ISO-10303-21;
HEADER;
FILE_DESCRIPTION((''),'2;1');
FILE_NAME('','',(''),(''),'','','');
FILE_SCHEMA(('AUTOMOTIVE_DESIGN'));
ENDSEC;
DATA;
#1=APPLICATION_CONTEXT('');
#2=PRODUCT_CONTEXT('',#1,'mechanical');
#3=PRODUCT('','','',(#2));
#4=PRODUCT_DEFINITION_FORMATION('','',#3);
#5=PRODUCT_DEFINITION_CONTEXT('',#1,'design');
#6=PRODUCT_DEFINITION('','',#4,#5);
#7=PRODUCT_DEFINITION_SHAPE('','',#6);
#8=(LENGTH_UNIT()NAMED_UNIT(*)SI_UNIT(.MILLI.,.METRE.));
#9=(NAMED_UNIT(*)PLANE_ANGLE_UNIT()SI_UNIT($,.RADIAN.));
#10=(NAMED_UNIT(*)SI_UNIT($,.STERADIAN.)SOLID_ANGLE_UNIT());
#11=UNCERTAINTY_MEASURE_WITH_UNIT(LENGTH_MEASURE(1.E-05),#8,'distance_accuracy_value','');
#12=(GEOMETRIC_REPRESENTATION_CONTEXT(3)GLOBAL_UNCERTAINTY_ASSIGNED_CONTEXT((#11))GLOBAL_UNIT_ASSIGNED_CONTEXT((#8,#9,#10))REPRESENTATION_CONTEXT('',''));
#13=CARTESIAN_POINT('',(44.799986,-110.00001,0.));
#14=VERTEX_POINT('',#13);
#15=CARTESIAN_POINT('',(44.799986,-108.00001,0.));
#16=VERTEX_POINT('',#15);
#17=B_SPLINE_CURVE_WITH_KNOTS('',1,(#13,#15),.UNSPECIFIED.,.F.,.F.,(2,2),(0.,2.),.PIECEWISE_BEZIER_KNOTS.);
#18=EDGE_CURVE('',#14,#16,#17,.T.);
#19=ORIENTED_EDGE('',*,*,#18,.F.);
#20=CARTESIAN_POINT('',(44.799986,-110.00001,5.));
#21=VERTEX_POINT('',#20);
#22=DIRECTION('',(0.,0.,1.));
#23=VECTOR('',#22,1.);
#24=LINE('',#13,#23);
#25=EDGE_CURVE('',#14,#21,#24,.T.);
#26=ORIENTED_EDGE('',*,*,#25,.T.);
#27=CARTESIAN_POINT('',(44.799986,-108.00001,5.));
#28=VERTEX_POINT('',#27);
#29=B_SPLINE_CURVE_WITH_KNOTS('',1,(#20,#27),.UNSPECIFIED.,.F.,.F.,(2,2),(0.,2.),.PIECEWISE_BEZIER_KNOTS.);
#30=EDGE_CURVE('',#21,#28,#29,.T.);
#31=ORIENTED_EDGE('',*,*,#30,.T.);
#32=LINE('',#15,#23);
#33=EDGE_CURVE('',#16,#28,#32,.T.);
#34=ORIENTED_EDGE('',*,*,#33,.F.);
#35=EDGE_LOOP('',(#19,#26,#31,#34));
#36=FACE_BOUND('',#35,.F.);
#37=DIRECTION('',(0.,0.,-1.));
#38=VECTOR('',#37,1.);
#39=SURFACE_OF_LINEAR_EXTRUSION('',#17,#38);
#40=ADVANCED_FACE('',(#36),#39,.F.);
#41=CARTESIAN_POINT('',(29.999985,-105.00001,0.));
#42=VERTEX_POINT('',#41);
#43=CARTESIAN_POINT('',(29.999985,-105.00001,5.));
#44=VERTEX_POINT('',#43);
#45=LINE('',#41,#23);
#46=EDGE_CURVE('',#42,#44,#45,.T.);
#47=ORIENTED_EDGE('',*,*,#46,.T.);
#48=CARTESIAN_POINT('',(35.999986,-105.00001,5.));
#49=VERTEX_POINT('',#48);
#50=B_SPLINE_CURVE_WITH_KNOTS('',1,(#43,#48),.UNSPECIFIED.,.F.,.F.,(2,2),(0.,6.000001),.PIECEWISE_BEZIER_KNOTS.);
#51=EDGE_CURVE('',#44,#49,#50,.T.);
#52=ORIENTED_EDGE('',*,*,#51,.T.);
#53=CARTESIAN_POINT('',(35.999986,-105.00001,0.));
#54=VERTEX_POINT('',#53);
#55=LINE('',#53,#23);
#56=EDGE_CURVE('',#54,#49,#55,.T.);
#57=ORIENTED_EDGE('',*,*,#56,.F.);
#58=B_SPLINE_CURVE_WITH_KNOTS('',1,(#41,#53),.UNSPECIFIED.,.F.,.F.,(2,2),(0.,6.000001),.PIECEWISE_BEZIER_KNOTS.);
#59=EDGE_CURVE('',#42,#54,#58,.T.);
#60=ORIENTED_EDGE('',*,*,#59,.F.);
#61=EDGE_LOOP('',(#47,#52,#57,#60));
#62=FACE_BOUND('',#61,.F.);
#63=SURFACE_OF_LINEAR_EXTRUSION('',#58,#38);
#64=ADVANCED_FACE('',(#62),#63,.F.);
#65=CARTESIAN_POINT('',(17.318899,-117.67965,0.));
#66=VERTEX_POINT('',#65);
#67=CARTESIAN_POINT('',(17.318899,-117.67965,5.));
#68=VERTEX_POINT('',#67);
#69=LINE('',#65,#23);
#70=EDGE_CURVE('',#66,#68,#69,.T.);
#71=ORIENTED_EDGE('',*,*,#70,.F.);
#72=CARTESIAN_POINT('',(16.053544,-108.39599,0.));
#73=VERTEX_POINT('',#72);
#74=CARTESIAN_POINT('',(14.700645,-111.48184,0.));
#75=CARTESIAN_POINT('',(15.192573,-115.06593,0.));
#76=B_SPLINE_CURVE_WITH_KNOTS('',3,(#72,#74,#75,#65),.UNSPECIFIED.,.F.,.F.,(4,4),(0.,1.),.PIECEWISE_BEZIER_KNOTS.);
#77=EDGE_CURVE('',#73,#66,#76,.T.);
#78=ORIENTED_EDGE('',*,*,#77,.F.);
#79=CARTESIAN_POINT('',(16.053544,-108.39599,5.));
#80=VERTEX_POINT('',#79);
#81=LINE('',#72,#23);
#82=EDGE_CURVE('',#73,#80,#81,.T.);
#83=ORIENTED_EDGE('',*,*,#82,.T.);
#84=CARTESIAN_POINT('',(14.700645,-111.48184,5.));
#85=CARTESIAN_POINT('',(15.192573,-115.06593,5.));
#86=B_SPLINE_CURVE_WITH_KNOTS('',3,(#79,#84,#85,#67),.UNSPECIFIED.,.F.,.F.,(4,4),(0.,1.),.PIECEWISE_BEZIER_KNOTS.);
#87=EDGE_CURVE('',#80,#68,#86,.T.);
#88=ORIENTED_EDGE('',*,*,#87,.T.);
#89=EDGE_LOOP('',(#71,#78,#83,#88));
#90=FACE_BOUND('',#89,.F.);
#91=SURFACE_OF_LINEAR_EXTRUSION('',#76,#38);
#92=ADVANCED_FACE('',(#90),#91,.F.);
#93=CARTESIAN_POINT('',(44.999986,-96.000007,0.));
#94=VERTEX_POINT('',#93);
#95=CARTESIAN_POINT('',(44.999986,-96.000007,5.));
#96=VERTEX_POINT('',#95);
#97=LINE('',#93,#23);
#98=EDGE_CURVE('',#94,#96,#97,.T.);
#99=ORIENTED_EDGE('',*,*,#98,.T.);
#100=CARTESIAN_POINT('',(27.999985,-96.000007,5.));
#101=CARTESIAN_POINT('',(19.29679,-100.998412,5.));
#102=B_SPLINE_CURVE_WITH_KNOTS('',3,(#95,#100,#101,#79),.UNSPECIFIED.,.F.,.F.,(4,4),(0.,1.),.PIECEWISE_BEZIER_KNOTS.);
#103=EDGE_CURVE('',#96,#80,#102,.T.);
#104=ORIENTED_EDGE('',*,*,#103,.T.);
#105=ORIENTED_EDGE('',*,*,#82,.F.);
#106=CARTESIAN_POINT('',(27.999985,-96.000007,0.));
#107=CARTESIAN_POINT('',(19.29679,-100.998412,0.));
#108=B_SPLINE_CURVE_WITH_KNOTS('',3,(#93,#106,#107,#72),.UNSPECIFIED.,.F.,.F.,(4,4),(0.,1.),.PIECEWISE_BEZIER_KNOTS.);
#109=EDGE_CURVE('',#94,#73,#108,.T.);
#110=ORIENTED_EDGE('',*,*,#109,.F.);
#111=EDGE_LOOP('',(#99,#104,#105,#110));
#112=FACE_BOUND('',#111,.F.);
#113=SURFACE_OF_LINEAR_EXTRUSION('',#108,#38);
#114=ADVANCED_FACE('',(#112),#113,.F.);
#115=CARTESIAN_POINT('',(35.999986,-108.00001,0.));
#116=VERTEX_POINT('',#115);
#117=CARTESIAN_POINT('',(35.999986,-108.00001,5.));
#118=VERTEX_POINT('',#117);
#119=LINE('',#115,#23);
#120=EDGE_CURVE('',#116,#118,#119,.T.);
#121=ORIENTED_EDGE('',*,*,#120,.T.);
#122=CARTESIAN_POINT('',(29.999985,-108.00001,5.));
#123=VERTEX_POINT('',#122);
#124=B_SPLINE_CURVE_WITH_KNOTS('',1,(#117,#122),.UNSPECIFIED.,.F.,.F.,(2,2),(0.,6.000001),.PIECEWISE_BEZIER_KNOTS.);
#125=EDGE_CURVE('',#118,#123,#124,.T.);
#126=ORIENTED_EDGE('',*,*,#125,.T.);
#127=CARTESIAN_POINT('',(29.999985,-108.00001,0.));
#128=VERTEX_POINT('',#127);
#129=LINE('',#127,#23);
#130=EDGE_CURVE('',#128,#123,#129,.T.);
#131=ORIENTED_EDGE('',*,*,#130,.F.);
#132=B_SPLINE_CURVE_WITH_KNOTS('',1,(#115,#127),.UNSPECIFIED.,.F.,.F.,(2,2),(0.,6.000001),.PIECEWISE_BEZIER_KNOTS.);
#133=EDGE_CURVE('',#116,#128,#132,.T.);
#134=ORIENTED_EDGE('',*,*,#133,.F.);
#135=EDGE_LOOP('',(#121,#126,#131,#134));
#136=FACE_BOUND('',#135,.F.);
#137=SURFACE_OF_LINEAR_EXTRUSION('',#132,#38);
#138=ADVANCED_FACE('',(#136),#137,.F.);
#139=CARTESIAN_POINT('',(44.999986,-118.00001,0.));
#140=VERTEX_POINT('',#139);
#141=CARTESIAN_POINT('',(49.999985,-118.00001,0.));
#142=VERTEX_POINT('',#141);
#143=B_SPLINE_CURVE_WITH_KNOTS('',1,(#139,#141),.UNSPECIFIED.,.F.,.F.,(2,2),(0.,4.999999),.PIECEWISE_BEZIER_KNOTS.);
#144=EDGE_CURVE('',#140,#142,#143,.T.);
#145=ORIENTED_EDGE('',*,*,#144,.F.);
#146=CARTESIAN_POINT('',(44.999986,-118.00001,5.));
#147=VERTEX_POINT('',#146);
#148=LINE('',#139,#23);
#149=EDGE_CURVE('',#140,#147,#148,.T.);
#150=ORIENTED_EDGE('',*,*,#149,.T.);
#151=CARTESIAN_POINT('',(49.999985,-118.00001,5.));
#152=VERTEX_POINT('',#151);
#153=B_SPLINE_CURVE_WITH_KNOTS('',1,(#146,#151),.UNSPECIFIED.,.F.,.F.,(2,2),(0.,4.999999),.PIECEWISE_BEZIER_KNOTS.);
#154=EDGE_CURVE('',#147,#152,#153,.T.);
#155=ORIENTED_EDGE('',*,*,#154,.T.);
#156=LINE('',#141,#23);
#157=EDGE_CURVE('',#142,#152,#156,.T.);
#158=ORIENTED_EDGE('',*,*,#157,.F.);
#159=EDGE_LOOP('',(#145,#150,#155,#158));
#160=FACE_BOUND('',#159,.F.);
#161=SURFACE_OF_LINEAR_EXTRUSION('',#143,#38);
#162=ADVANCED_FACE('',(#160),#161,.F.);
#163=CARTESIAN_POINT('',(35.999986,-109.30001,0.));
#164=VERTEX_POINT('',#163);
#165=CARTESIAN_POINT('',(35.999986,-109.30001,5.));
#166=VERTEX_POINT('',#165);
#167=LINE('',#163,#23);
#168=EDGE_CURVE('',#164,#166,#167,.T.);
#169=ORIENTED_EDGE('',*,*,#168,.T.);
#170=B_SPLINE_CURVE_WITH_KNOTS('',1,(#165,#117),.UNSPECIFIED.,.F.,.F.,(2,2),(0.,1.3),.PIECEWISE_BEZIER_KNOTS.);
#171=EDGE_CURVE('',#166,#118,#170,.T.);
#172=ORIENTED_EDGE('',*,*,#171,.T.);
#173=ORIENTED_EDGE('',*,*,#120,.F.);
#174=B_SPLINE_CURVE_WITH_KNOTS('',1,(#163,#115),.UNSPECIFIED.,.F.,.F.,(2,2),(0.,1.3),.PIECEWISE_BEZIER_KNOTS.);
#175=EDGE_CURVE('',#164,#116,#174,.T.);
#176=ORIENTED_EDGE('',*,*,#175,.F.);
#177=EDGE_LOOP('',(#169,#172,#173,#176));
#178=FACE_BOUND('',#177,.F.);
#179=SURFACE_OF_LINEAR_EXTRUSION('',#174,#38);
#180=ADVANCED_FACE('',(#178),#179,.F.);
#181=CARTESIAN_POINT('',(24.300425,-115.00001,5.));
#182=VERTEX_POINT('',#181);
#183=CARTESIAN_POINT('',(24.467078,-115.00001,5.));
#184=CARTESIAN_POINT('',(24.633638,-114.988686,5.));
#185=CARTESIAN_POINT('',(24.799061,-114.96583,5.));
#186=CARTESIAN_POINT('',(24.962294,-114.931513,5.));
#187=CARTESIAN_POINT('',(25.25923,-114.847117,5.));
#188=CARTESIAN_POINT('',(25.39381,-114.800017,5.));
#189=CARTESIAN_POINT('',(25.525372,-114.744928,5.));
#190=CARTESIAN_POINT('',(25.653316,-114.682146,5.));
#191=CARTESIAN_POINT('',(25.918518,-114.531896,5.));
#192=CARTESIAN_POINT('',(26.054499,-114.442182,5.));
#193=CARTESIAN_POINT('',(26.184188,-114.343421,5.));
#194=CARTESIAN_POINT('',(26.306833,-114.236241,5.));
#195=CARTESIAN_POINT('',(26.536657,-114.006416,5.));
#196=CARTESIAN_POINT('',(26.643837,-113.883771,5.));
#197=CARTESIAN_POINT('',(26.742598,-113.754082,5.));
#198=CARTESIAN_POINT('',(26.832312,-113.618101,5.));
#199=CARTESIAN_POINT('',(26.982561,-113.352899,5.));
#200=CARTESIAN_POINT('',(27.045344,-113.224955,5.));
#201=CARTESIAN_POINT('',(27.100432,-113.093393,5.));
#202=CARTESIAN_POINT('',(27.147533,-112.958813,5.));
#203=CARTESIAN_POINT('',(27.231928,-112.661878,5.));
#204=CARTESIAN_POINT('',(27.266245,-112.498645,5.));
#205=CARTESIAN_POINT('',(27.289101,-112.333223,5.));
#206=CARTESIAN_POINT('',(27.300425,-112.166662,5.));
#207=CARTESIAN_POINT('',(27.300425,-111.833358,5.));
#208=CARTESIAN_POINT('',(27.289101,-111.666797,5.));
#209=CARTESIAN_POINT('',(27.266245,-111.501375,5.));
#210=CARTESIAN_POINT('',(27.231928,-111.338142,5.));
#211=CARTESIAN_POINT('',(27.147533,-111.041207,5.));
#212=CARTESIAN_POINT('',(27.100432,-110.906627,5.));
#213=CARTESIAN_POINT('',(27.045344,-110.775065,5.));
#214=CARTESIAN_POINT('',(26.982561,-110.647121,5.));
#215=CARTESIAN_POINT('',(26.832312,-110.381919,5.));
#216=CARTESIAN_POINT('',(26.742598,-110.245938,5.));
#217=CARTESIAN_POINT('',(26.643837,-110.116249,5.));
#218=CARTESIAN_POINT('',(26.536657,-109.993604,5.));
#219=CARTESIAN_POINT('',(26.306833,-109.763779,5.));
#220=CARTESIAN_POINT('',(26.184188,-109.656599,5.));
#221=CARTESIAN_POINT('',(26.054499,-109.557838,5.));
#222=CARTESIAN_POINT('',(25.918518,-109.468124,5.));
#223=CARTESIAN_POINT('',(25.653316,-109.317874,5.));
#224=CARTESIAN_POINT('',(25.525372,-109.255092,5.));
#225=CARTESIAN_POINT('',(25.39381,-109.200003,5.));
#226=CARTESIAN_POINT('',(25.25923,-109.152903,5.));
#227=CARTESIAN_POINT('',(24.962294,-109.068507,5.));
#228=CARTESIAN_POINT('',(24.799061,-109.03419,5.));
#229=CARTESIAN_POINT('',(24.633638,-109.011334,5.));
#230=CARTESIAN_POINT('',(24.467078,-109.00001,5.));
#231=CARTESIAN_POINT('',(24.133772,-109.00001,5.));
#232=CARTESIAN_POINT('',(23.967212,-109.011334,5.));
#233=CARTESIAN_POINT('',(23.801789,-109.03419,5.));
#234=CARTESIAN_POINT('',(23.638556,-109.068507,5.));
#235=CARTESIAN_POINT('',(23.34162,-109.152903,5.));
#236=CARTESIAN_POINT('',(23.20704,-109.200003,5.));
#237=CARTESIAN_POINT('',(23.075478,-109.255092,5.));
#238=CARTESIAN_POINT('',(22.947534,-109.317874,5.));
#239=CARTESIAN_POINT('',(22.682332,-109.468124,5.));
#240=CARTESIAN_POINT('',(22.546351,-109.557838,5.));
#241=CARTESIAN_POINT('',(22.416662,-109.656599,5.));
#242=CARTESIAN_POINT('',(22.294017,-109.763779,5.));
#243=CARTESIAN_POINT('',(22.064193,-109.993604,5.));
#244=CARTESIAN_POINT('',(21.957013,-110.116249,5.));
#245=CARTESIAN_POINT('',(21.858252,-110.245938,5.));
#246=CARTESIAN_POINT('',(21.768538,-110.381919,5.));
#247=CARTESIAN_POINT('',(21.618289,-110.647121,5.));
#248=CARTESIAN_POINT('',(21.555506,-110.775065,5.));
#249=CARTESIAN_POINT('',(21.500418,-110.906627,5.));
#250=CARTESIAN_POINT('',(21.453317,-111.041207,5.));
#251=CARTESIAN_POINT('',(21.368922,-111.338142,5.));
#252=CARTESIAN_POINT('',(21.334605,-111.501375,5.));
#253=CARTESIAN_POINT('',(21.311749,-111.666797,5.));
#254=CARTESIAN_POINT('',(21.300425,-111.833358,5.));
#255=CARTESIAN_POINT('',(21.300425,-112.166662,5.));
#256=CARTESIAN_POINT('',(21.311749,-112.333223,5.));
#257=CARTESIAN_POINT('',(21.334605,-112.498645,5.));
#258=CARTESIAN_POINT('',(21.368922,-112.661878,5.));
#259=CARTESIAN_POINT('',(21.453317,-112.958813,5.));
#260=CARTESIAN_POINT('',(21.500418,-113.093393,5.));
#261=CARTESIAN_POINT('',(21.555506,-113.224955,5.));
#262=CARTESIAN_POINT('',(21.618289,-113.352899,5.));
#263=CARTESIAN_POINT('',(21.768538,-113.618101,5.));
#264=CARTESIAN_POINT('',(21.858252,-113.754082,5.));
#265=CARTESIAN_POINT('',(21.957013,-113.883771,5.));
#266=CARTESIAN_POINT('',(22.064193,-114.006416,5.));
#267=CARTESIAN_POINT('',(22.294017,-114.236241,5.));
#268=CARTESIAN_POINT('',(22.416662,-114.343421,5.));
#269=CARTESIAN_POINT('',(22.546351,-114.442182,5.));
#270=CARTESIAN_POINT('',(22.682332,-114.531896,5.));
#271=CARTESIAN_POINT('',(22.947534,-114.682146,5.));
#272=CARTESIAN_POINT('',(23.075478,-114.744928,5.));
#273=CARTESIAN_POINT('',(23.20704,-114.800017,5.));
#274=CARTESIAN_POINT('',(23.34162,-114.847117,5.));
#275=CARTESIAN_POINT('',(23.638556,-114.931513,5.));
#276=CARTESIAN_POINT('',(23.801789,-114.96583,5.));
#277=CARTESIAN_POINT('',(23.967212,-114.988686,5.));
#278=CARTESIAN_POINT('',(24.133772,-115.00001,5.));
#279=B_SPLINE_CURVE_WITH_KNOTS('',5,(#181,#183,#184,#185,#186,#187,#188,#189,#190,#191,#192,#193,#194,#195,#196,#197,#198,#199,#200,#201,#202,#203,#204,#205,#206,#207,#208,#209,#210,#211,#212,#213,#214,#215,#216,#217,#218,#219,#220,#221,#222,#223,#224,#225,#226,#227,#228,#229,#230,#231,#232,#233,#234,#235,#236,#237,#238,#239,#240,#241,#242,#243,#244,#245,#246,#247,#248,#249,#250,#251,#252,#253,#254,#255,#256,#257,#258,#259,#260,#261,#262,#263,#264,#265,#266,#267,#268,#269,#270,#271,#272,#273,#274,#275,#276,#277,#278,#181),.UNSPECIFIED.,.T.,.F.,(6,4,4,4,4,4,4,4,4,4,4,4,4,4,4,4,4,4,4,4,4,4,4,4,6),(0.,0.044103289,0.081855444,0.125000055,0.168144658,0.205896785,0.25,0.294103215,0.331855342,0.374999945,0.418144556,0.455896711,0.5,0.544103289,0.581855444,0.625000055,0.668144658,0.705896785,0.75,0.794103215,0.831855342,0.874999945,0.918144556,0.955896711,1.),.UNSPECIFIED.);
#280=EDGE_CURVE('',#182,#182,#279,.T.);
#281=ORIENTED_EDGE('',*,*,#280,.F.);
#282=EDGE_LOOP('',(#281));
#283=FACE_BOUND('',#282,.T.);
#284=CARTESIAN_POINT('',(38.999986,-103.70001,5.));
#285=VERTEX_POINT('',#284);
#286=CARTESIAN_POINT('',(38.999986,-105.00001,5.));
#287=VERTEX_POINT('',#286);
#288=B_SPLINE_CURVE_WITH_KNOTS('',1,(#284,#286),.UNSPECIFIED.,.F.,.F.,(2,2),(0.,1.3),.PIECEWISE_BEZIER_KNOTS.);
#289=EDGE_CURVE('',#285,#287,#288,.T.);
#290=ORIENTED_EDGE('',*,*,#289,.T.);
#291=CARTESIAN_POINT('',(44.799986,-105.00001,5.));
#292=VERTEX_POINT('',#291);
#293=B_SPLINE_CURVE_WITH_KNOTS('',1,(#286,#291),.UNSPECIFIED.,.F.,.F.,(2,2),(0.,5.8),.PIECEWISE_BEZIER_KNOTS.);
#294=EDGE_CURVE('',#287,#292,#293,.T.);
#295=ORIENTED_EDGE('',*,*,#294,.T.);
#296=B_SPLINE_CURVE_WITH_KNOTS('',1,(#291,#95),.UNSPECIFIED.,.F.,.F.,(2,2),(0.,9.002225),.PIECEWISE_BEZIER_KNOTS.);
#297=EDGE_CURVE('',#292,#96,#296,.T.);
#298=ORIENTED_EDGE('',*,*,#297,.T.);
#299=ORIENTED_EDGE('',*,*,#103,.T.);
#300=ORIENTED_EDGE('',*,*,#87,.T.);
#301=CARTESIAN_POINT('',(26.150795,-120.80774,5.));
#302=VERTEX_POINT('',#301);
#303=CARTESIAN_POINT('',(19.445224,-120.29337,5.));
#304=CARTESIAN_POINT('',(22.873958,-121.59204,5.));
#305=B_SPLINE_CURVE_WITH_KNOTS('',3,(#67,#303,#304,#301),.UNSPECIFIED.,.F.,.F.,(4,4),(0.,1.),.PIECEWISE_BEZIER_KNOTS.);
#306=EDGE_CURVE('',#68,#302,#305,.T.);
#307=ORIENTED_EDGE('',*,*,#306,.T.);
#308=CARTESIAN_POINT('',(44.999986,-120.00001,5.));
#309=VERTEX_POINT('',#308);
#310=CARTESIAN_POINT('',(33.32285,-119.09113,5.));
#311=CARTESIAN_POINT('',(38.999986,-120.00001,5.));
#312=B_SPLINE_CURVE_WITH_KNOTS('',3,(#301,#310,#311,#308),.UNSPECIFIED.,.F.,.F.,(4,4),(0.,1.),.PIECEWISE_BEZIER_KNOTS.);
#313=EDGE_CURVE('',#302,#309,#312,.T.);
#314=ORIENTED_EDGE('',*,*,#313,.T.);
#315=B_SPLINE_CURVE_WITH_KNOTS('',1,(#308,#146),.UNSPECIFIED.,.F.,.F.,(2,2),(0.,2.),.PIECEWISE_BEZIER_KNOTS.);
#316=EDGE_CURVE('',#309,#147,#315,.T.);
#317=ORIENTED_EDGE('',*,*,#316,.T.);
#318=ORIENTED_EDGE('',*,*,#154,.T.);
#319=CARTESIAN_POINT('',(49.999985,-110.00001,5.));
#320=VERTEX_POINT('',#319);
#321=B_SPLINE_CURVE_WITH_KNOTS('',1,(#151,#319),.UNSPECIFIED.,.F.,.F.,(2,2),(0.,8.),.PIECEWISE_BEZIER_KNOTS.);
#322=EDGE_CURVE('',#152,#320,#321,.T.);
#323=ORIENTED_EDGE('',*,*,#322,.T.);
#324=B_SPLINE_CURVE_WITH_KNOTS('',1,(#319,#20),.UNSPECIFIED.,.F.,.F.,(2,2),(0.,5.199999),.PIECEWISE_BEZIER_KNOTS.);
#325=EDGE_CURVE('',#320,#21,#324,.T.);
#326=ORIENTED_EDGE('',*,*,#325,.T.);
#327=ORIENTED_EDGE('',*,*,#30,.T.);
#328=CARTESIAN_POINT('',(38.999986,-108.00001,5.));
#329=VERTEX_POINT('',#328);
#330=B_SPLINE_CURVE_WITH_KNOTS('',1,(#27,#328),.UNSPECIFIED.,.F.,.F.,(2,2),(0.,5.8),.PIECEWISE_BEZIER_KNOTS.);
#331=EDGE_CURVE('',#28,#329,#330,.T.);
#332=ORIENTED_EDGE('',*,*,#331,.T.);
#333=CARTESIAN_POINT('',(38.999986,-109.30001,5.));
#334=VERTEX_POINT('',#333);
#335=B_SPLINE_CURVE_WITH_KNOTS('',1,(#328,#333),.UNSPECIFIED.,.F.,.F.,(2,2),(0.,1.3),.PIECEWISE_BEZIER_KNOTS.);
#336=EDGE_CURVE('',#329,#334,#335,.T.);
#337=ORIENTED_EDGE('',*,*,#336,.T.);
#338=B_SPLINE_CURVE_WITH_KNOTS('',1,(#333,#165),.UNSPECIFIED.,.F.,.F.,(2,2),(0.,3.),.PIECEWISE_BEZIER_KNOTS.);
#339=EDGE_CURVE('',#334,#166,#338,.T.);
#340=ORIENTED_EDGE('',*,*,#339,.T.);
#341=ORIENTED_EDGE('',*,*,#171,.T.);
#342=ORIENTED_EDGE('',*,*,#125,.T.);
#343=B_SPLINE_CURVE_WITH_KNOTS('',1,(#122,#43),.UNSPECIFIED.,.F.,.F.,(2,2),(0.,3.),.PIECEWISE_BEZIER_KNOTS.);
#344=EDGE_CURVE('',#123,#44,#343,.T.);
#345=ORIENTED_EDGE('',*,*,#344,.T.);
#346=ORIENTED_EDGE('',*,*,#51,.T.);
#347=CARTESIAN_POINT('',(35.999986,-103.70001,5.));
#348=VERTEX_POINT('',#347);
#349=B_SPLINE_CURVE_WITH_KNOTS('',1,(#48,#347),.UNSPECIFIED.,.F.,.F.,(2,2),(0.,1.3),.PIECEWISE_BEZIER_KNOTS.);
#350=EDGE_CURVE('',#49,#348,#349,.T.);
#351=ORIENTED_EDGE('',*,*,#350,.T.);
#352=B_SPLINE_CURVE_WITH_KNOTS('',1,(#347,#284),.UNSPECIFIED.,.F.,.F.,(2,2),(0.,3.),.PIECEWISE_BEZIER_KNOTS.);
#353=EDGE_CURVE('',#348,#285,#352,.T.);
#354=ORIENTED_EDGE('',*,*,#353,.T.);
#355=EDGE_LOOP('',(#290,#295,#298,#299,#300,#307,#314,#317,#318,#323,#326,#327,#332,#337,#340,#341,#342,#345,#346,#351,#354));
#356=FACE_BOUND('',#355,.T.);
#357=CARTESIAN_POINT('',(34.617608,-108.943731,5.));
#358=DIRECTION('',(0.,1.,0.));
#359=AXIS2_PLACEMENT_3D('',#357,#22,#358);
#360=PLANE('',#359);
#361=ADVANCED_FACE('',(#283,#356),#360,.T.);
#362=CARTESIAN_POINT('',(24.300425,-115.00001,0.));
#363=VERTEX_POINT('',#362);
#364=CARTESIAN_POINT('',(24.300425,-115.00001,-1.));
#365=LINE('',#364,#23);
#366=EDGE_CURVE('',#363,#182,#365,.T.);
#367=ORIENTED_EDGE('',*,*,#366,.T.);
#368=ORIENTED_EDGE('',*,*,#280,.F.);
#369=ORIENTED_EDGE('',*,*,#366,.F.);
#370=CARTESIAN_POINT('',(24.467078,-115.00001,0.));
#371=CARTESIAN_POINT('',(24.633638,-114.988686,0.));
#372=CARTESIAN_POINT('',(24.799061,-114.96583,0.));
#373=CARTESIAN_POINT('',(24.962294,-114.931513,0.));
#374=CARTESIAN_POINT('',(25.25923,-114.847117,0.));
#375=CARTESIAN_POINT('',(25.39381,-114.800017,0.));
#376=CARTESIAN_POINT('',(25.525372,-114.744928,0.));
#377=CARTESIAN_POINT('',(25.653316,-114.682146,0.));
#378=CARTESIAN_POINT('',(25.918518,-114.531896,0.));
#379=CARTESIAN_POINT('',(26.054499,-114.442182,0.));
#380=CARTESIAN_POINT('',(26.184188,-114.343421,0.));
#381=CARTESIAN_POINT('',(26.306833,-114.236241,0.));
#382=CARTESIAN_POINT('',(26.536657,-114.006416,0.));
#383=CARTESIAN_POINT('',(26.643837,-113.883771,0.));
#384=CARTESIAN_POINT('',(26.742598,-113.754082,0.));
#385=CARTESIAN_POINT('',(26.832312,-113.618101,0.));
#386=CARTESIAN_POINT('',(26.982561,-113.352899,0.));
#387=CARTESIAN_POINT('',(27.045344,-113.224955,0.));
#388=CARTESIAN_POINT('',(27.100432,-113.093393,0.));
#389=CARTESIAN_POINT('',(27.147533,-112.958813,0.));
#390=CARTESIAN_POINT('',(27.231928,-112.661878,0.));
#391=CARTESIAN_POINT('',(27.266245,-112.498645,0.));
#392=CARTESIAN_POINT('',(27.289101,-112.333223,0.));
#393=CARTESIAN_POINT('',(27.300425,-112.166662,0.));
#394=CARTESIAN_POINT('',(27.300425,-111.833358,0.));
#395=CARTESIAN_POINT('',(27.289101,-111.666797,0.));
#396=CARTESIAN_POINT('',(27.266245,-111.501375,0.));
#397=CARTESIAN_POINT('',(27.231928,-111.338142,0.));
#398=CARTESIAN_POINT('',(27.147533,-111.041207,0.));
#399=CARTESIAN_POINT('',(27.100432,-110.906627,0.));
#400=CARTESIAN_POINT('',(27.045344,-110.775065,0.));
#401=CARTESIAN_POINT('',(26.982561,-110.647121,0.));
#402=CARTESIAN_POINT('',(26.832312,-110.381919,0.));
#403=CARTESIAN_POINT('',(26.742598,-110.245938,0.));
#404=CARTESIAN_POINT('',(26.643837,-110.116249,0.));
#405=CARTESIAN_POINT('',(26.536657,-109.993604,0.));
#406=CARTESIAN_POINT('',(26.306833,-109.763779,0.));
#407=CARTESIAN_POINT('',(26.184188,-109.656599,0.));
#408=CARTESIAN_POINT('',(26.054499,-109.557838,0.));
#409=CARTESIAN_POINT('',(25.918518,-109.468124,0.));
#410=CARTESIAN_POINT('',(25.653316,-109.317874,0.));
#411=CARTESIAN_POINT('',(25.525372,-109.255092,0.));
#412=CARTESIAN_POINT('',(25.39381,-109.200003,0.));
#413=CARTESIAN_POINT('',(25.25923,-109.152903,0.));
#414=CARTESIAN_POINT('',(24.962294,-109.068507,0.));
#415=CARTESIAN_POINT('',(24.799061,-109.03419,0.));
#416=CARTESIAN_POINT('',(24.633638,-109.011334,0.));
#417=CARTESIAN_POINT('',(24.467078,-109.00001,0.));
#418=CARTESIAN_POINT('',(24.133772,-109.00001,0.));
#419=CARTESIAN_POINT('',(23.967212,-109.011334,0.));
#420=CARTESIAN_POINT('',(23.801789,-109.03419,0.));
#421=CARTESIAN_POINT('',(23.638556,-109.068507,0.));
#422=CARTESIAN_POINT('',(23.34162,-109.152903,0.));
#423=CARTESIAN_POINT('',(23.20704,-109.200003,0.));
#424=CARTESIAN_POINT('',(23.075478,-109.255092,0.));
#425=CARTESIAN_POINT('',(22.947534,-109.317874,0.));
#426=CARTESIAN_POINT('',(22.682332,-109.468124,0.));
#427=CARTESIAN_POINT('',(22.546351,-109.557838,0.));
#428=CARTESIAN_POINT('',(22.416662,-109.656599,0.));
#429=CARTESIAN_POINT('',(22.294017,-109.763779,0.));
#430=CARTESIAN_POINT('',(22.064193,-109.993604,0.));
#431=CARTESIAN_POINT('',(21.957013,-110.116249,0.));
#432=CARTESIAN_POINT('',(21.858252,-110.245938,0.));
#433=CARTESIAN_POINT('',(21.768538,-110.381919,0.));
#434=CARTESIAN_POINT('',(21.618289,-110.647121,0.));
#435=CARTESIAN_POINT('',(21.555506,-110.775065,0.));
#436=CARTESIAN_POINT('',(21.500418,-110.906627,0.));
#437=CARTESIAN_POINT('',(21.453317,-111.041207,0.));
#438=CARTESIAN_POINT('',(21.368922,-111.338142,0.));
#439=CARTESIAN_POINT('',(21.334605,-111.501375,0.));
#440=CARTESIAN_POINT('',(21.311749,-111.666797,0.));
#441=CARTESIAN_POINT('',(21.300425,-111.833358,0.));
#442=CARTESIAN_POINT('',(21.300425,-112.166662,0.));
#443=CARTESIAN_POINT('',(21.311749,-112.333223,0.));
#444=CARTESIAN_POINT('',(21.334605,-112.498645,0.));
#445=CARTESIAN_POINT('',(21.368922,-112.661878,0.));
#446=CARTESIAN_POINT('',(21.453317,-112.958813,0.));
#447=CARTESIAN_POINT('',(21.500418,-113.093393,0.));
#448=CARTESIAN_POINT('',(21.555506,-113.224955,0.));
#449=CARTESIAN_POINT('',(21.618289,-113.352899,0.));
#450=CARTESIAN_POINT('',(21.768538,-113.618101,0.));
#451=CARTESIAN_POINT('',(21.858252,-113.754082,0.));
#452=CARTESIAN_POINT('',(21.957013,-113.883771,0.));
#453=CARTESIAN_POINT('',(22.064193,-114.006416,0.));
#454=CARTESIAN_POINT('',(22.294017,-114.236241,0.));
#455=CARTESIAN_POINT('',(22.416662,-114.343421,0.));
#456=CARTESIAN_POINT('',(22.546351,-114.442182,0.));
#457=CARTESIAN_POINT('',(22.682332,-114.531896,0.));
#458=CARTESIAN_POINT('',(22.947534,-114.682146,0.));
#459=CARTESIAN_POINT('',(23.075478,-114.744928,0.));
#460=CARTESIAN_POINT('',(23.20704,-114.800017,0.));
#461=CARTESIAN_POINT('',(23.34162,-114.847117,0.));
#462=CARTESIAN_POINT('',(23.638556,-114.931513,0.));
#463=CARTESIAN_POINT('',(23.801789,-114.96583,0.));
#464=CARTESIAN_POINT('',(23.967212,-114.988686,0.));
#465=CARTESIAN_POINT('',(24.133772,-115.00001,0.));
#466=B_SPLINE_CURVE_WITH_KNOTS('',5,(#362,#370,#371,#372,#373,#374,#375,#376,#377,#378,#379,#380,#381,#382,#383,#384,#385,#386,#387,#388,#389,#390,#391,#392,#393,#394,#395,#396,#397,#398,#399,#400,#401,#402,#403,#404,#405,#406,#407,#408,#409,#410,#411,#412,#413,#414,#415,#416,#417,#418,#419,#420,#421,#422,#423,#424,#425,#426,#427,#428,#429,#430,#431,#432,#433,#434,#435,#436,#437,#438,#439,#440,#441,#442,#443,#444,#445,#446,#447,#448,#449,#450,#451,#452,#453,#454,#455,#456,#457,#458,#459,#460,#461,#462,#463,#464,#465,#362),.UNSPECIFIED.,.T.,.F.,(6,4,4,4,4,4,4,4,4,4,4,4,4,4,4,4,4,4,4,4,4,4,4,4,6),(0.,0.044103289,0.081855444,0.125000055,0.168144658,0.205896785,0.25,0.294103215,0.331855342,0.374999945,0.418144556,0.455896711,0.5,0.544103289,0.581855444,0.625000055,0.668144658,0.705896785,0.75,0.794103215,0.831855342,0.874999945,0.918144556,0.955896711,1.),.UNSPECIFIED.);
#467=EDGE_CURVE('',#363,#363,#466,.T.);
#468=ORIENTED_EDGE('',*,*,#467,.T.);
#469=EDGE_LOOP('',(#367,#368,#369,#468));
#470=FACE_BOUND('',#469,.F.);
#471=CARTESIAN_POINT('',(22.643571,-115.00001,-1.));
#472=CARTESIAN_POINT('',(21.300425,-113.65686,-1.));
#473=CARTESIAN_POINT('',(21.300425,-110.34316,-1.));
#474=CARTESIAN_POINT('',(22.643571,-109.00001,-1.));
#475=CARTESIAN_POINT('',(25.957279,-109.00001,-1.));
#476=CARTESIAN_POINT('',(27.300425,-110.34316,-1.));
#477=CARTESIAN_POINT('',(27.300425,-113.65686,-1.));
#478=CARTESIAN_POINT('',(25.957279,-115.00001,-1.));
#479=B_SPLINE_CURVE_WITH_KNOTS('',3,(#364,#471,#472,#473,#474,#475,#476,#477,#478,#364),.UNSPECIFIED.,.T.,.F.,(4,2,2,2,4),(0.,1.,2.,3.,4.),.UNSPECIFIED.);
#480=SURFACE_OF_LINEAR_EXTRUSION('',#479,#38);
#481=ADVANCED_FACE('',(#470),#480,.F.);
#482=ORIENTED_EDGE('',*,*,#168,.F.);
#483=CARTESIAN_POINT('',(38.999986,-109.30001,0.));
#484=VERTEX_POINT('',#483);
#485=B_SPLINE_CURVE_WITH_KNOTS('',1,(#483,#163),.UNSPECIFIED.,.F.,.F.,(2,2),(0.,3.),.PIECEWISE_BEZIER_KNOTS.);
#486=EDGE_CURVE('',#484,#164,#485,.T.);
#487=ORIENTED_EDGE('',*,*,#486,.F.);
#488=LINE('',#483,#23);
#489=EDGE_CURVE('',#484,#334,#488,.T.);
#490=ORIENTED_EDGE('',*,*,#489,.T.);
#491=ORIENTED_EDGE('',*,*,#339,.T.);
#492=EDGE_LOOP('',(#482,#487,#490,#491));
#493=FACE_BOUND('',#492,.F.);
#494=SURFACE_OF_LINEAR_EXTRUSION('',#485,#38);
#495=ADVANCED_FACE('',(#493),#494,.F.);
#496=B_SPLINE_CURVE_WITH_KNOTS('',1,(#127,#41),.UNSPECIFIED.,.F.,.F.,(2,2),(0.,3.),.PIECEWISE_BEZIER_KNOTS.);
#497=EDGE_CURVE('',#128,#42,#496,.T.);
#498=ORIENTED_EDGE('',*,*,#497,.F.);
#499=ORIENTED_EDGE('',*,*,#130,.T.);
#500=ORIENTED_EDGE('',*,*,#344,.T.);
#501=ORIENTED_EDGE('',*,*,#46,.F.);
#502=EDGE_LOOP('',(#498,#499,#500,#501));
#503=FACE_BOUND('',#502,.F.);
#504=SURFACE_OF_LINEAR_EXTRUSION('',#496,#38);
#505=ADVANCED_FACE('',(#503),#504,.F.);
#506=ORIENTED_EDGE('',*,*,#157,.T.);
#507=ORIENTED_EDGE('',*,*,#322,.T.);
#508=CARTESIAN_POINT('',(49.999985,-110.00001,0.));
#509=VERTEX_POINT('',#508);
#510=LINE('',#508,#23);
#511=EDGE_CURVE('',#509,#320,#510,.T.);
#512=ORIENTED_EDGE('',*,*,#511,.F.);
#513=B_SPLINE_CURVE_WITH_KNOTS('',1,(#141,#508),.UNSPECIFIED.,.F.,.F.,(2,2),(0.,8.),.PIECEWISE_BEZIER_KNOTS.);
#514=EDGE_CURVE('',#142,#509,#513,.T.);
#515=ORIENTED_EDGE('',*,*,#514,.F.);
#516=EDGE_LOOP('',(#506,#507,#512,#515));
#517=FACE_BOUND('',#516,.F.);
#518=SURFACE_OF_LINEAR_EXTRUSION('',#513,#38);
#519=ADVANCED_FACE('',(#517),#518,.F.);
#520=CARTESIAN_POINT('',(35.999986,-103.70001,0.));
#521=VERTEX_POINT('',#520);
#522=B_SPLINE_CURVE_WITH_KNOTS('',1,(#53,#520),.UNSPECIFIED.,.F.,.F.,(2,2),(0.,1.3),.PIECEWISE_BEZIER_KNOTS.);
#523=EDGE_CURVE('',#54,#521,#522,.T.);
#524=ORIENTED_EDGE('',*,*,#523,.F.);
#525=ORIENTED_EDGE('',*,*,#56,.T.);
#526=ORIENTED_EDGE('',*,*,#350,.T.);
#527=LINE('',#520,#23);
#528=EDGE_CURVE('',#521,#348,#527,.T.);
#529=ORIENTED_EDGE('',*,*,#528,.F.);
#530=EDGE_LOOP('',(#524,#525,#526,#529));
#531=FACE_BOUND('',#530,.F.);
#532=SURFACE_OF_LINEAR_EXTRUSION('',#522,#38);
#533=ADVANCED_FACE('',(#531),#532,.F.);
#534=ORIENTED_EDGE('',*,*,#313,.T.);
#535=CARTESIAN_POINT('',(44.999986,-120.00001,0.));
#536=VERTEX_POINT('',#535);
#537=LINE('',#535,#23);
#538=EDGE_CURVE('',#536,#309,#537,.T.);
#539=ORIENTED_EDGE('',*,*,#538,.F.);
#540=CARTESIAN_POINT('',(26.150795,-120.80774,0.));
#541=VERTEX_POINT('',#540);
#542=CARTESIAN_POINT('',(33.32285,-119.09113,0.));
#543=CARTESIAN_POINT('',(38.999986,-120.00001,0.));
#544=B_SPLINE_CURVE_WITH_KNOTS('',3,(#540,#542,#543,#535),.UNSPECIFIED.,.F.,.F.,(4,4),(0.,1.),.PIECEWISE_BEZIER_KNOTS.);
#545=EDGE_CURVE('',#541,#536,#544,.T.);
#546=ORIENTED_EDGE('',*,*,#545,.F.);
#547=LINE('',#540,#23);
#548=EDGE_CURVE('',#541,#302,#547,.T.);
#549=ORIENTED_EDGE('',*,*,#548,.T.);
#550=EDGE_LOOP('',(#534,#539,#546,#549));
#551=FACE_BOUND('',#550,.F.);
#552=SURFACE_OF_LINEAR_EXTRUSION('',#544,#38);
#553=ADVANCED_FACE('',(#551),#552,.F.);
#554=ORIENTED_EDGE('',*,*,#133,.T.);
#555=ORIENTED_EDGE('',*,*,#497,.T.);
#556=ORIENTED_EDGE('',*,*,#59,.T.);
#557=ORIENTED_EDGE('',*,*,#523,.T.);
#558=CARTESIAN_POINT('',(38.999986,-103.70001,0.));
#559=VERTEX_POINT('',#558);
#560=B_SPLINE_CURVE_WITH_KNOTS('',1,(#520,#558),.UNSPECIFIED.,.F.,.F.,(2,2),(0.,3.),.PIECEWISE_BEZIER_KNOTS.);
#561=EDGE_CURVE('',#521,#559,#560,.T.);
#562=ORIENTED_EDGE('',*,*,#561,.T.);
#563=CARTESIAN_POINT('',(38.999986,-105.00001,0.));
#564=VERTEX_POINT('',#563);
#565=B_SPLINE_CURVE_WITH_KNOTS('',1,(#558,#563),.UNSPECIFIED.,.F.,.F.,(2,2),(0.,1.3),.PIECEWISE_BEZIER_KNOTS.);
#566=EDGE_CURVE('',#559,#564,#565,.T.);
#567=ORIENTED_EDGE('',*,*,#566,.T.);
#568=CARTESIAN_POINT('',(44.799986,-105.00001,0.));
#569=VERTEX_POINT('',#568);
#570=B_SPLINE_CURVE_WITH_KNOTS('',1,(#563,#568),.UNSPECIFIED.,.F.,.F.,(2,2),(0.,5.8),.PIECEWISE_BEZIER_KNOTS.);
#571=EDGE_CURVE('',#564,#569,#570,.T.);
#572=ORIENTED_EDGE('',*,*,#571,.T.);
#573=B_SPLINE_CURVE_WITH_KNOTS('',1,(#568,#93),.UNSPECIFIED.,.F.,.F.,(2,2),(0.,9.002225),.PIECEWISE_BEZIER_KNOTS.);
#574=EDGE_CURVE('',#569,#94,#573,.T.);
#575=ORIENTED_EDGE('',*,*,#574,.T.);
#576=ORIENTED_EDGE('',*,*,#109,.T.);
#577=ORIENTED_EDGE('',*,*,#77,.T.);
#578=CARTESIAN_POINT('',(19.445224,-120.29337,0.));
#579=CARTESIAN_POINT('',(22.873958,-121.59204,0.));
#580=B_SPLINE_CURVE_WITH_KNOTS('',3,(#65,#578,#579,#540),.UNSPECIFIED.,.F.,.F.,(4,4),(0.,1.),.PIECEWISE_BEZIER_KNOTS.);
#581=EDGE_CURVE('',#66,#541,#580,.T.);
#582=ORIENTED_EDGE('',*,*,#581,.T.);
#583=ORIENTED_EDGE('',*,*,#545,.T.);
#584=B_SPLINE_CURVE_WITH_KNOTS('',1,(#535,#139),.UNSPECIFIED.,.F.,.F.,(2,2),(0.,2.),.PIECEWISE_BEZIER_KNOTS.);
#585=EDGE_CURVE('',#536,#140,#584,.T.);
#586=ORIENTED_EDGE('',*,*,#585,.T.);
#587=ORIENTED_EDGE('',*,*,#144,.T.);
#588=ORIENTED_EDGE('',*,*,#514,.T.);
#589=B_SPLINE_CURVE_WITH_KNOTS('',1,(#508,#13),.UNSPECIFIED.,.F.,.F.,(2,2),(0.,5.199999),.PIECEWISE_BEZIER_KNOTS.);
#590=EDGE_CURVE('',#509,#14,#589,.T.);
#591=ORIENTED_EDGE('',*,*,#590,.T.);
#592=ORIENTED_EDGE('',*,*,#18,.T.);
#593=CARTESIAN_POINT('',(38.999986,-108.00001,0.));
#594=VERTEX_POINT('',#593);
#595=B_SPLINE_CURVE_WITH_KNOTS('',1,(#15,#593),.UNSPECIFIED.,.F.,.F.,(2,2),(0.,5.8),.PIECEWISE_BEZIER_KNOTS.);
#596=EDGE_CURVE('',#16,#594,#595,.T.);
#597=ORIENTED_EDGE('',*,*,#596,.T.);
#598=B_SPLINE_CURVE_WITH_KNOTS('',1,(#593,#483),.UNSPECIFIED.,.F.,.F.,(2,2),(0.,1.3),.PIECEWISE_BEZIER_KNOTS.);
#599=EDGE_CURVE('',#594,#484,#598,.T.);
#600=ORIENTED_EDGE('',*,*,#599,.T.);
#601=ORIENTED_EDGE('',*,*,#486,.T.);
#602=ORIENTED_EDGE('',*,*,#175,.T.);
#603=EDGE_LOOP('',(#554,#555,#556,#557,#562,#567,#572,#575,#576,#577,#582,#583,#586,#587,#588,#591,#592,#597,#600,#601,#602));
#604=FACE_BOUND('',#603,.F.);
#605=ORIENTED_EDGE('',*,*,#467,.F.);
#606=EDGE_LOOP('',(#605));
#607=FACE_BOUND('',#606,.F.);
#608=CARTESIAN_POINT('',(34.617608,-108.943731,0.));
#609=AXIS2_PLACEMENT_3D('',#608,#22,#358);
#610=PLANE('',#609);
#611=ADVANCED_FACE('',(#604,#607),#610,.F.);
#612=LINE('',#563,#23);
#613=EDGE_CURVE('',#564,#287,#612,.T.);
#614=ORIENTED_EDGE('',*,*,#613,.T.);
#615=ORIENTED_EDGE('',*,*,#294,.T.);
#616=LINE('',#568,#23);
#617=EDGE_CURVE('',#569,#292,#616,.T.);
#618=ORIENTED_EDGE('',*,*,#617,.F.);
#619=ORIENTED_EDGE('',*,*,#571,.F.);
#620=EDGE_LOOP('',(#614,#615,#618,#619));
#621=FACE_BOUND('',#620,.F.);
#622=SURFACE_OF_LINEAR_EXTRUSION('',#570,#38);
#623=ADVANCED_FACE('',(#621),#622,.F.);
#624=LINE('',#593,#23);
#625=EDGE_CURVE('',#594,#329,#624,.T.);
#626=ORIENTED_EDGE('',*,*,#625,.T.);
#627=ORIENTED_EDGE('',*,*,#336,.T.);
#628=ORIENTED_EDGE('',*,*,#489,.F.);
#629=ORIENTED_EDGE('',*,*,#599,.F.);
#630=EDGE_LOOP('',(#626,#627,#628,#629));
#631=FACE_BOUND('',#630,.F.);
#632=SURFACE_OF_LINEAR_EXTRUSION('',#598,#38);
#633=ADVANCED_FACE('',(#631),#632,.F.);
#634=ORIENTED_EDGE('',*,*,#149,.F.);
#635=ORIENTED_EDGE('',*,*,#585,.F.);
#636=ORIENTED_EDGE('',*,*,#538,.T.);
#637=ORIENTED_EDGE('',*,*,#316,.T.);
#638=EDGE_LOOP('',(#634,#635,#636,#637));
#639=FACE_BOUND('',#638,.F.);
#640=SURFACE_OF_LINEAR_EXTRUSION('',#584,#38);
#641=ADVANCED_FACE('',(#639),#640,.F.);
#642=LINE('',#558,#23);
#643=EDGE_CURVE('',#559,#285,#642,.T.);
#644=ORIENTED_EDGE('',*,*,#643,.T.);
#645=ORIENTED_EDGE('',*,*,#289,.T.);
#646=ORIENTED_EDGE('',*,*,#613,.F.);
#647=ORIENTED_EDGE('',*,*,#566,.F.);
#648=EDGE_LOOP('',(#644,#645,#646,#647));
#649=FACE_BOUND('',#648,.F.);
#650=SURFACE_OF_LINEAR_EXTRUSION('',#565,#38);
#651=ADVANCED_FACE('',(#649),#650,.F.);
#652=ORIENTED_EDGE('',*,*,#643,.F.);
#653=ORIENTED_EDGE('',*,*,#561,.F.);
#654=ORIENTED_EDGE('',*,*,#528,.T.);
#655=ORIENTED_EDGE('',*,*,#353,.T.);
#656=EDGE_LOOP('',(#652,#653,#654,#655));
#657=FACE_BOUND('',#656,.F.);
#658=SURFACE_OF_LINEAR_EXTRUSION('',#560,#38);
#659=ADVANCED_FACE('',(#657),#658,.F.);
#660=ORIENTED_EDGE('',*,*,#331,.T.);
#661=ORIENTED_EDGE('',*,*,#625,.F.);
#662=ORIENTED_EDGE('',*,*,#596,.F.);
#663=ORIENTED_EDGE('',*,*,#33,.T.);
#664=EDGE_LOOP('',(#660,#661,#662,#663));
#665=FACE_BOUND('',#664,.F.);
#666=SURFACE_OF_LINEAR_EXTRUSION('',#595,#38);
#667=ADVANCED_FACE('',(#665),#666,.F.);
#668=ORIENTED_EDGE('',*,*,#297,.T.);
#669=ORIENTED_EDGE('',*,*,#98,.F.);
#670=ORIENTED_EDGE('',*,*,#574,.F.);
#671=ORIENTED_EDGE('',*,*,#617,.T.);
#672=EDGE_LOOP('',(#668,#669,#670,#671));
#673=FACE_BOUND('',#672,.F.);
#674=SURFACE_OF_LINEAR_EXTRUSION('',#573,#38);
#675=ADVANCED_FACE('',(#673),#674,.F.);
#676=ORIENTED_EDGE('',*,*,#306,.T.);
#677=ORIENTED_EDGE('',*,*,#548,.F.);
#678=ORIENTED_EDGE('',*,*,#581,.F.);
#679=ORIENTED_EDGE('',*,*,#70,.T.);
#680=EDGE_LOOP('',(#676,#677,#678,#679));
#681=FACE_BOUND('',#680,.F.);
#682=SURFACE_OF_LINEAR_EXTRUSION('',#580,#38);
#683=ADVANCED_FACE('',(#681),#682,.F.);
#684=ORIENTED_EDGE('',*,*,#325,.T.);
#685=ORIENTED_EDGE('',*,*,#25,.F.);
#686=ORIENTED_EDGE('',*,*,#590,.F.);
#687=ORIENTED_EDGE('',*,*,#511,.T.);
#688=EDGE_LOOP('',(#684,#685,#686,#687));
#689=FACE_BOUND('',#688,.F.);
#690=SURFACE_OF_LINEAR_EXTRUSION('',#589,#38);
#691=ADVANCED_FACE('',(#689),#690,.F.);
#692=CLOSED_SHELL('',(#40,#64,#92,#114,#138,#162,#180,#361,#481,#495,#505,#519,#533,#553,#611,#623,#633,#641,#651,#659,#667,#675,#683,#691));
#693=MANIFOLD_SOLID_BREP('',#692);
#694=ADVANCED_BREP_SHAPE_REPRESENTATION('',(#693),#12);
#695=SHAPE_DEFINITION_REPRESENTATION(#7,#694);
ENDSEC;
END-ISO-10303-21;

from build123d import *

# Parameters (mm, degrees)
EXTRUSION001_DEPTH = 7
EXTRUSION_DEPTH    = 5


with BuildPart() as extrusion001:
    # Face001 → Extrusion001 (new body)
    with BuildSketch(Plane(origin=(24.300425, -112.00001, 0), x_dir=(0, 1, 0), z_dir=(0, 0, 1))):
        with BuildLine():
            add(Edge.make_bspline(
                [(0, -3), (-1.65685, -3), (-3, -1.656854), (-3, 0)],
                knots=[0, 0, 0, 0, 1, 1, 1, 1], degree=3))
            add(Edge.make_bspline(
                [(3, 0), (3, -1.656854), (1.65685, -3), (0, -3)],
                knots=[0, 0, 0, 0, 1, 1, 1, 1], degree=3))
            add(Edge.make_bspline(
                [(0, 3), (1.65685, 3), (3, 1.656854), (3, 0)],
                knots=[0, 0, 0, 0, 1, 1, 1, 1], degree=3))
            add(Edge.make_bspline(
                [(-3, 0), (-3, 1.656854), (-1.65685, 3), (0, 3)],
                knots=[0, 0, 0, 0, 1, 1, 1, 1], degree=3))
        make_face()
    extrude(amount=EXTRUSION001_DEPTH)


with BuildPart() as extrusion001_1:
    # Extrusion001 placement: moved
    add(extrusion001.part.moved(Location((0, 0, -1))))


with BuildPart() as cut:
    # Face → Extrusion (new body)
    with BuildSketch(Plane(origin=(32.152689, -109.758179, 0), x_dir=(0, -1, 0), z_dir=(0, 0, -1))):
        with BuildLine():
            add(Edge.make_bspline(
                [(7.921471, 14.83379), (10.535191, 12.707465), (11.833861, 9.278731), (11.049561, 6.001894)],
                knots=[0, 0, 0, 0, 1, 1, 1, 1], degree=3))
            add(Edge.make_bspline(
                [(-1.362189, 16.099145), (1.723661, 17.452044), (5.307751, 16.960116), (7.921471, 14.83379)],
                knots=[0, 0, 0, 0, 1, 1, 1, 1], degree=3))
            add(Edge.make_bspline(
                [(-13.758172, -12.847297), (-13.758172, 4.152704), (-8.759767, 12.855899), (-1.362189, 16.099145)],
                knots=[0, 0, 0, 0, 1, 1, 1, 1], degree=3))
            add(Edge.make_bspline(
                [(-4.758169, -12.647297), (-13.758172, -12.847297)],
                knots=[0, 0, 9.002225, 9.002225], degree=1))
            add(Edge.make_bspline(
                [(-4.758169, -6.847297), (-4.758169, -12.647297)],
                knots=[0, 0, 5.8, 5.8], degree=1))
            add(Edge.make_bspline(
                [(-6.058169, -6.847297), (-4.758169, -6.847297)],
                knots=[0, 0, 1.3, 1.3], degree=1))
            add(Edge.make_bspline(
                [(-6.058169, -3.847297), (-6.058169, -6.847297)],
                knots=[0, 0, 3, 3], degree=1))
            add(Edge.make_bspline(
                [(-4.758169, -3.847297), (-6.058169, -3.847297)],
                knots=[0, 0, 1.3, 1.3], degree=1))
            add(Edge.make_bspline(
                [(-4.758169, 2.152704), (-4.758169, -3.847297)],
                knots=[0, 0, 6.000001, 6.000001], degree=1))
            add(Edge.make_bspline(
                [(-1.758169, 2.152704), (-4.758169, 2.152704)],
                knots=[0, 0, 3, 3], degree=1))
            add(Edge.make_bspline(
                [(-1.758169, -3.847297), (-1.758169, 2.152704)],
                knots=[0, 0, 6.000001, 6.000001], degree=1))
            add(Edge.make_bspline(
                [(-0.458169, -3.847297), (-1.758169, -3.847297)],
                knots=[0, 0, 1.3, 1.3], degree=1))
            add(Edge.make_bspline(
                [(-0.458169, -6.847297), (-0.458169, -3.847297)],
                knots=[0, 0, 3, 3], degree=1))
            add(Edge.make_bspline(
                [(-1.758169, -6.847297), (-0.458169, -6.847297)],
                knots=[0, 0, 1.3, 1.3], degree=1))
            add(Edge.make_bspline(
                [(-1.758169, -12.647297), (-1.758169, -6.847297)],
                knots=[0, 0, 5.8, 5.8], degree=1))
            add(Edge.make_bspline(
                [(0.241831, -12.647297), (-1.758169, -12.647297)],
                knots=[0, 0, 2, 2], degree=1))
            add(Edge.make_bspline(
                [(0.241831, -17.847296), (0.241831, -12.647297)],
                knots=[0, 0, 5.199999, 5.199999], degree=1))
            add(Edge.make_bspline(
                [(8.241831, -17.847296), (0.241831, -17.847296)],
                knots=[0, 0, 8, 8], degree=1))
            add(Edge.make_bspline(
                [(8.241831, -12.847297), (8.241831, -17.847296)],
                knots=[0, 0, 4.999999, 4.999999], degree=1))
            add(Edge.make_bspline(
                [(10.241831, -12.847297), (8.241831, -12.847297)],
                knots=[0, 0, 2, 2], degree=1))
            add(Edge.make_bspline(
                [(11.049561, 6.001894), (9.332951, -1.170161), (10.241831, -6.847297), (10.241831, -12.847297)],
                knots=[0, 0, 0, 0, 1, 1, 1, 1], degree=3))
        make_face()
    extrude(amount=-EXTRUSION_DEPTH)

    # Cut: cut Extrusion001
    add(extrusion001_1.part, mode=Mode.SUBTRACT)


solid = cut.part
